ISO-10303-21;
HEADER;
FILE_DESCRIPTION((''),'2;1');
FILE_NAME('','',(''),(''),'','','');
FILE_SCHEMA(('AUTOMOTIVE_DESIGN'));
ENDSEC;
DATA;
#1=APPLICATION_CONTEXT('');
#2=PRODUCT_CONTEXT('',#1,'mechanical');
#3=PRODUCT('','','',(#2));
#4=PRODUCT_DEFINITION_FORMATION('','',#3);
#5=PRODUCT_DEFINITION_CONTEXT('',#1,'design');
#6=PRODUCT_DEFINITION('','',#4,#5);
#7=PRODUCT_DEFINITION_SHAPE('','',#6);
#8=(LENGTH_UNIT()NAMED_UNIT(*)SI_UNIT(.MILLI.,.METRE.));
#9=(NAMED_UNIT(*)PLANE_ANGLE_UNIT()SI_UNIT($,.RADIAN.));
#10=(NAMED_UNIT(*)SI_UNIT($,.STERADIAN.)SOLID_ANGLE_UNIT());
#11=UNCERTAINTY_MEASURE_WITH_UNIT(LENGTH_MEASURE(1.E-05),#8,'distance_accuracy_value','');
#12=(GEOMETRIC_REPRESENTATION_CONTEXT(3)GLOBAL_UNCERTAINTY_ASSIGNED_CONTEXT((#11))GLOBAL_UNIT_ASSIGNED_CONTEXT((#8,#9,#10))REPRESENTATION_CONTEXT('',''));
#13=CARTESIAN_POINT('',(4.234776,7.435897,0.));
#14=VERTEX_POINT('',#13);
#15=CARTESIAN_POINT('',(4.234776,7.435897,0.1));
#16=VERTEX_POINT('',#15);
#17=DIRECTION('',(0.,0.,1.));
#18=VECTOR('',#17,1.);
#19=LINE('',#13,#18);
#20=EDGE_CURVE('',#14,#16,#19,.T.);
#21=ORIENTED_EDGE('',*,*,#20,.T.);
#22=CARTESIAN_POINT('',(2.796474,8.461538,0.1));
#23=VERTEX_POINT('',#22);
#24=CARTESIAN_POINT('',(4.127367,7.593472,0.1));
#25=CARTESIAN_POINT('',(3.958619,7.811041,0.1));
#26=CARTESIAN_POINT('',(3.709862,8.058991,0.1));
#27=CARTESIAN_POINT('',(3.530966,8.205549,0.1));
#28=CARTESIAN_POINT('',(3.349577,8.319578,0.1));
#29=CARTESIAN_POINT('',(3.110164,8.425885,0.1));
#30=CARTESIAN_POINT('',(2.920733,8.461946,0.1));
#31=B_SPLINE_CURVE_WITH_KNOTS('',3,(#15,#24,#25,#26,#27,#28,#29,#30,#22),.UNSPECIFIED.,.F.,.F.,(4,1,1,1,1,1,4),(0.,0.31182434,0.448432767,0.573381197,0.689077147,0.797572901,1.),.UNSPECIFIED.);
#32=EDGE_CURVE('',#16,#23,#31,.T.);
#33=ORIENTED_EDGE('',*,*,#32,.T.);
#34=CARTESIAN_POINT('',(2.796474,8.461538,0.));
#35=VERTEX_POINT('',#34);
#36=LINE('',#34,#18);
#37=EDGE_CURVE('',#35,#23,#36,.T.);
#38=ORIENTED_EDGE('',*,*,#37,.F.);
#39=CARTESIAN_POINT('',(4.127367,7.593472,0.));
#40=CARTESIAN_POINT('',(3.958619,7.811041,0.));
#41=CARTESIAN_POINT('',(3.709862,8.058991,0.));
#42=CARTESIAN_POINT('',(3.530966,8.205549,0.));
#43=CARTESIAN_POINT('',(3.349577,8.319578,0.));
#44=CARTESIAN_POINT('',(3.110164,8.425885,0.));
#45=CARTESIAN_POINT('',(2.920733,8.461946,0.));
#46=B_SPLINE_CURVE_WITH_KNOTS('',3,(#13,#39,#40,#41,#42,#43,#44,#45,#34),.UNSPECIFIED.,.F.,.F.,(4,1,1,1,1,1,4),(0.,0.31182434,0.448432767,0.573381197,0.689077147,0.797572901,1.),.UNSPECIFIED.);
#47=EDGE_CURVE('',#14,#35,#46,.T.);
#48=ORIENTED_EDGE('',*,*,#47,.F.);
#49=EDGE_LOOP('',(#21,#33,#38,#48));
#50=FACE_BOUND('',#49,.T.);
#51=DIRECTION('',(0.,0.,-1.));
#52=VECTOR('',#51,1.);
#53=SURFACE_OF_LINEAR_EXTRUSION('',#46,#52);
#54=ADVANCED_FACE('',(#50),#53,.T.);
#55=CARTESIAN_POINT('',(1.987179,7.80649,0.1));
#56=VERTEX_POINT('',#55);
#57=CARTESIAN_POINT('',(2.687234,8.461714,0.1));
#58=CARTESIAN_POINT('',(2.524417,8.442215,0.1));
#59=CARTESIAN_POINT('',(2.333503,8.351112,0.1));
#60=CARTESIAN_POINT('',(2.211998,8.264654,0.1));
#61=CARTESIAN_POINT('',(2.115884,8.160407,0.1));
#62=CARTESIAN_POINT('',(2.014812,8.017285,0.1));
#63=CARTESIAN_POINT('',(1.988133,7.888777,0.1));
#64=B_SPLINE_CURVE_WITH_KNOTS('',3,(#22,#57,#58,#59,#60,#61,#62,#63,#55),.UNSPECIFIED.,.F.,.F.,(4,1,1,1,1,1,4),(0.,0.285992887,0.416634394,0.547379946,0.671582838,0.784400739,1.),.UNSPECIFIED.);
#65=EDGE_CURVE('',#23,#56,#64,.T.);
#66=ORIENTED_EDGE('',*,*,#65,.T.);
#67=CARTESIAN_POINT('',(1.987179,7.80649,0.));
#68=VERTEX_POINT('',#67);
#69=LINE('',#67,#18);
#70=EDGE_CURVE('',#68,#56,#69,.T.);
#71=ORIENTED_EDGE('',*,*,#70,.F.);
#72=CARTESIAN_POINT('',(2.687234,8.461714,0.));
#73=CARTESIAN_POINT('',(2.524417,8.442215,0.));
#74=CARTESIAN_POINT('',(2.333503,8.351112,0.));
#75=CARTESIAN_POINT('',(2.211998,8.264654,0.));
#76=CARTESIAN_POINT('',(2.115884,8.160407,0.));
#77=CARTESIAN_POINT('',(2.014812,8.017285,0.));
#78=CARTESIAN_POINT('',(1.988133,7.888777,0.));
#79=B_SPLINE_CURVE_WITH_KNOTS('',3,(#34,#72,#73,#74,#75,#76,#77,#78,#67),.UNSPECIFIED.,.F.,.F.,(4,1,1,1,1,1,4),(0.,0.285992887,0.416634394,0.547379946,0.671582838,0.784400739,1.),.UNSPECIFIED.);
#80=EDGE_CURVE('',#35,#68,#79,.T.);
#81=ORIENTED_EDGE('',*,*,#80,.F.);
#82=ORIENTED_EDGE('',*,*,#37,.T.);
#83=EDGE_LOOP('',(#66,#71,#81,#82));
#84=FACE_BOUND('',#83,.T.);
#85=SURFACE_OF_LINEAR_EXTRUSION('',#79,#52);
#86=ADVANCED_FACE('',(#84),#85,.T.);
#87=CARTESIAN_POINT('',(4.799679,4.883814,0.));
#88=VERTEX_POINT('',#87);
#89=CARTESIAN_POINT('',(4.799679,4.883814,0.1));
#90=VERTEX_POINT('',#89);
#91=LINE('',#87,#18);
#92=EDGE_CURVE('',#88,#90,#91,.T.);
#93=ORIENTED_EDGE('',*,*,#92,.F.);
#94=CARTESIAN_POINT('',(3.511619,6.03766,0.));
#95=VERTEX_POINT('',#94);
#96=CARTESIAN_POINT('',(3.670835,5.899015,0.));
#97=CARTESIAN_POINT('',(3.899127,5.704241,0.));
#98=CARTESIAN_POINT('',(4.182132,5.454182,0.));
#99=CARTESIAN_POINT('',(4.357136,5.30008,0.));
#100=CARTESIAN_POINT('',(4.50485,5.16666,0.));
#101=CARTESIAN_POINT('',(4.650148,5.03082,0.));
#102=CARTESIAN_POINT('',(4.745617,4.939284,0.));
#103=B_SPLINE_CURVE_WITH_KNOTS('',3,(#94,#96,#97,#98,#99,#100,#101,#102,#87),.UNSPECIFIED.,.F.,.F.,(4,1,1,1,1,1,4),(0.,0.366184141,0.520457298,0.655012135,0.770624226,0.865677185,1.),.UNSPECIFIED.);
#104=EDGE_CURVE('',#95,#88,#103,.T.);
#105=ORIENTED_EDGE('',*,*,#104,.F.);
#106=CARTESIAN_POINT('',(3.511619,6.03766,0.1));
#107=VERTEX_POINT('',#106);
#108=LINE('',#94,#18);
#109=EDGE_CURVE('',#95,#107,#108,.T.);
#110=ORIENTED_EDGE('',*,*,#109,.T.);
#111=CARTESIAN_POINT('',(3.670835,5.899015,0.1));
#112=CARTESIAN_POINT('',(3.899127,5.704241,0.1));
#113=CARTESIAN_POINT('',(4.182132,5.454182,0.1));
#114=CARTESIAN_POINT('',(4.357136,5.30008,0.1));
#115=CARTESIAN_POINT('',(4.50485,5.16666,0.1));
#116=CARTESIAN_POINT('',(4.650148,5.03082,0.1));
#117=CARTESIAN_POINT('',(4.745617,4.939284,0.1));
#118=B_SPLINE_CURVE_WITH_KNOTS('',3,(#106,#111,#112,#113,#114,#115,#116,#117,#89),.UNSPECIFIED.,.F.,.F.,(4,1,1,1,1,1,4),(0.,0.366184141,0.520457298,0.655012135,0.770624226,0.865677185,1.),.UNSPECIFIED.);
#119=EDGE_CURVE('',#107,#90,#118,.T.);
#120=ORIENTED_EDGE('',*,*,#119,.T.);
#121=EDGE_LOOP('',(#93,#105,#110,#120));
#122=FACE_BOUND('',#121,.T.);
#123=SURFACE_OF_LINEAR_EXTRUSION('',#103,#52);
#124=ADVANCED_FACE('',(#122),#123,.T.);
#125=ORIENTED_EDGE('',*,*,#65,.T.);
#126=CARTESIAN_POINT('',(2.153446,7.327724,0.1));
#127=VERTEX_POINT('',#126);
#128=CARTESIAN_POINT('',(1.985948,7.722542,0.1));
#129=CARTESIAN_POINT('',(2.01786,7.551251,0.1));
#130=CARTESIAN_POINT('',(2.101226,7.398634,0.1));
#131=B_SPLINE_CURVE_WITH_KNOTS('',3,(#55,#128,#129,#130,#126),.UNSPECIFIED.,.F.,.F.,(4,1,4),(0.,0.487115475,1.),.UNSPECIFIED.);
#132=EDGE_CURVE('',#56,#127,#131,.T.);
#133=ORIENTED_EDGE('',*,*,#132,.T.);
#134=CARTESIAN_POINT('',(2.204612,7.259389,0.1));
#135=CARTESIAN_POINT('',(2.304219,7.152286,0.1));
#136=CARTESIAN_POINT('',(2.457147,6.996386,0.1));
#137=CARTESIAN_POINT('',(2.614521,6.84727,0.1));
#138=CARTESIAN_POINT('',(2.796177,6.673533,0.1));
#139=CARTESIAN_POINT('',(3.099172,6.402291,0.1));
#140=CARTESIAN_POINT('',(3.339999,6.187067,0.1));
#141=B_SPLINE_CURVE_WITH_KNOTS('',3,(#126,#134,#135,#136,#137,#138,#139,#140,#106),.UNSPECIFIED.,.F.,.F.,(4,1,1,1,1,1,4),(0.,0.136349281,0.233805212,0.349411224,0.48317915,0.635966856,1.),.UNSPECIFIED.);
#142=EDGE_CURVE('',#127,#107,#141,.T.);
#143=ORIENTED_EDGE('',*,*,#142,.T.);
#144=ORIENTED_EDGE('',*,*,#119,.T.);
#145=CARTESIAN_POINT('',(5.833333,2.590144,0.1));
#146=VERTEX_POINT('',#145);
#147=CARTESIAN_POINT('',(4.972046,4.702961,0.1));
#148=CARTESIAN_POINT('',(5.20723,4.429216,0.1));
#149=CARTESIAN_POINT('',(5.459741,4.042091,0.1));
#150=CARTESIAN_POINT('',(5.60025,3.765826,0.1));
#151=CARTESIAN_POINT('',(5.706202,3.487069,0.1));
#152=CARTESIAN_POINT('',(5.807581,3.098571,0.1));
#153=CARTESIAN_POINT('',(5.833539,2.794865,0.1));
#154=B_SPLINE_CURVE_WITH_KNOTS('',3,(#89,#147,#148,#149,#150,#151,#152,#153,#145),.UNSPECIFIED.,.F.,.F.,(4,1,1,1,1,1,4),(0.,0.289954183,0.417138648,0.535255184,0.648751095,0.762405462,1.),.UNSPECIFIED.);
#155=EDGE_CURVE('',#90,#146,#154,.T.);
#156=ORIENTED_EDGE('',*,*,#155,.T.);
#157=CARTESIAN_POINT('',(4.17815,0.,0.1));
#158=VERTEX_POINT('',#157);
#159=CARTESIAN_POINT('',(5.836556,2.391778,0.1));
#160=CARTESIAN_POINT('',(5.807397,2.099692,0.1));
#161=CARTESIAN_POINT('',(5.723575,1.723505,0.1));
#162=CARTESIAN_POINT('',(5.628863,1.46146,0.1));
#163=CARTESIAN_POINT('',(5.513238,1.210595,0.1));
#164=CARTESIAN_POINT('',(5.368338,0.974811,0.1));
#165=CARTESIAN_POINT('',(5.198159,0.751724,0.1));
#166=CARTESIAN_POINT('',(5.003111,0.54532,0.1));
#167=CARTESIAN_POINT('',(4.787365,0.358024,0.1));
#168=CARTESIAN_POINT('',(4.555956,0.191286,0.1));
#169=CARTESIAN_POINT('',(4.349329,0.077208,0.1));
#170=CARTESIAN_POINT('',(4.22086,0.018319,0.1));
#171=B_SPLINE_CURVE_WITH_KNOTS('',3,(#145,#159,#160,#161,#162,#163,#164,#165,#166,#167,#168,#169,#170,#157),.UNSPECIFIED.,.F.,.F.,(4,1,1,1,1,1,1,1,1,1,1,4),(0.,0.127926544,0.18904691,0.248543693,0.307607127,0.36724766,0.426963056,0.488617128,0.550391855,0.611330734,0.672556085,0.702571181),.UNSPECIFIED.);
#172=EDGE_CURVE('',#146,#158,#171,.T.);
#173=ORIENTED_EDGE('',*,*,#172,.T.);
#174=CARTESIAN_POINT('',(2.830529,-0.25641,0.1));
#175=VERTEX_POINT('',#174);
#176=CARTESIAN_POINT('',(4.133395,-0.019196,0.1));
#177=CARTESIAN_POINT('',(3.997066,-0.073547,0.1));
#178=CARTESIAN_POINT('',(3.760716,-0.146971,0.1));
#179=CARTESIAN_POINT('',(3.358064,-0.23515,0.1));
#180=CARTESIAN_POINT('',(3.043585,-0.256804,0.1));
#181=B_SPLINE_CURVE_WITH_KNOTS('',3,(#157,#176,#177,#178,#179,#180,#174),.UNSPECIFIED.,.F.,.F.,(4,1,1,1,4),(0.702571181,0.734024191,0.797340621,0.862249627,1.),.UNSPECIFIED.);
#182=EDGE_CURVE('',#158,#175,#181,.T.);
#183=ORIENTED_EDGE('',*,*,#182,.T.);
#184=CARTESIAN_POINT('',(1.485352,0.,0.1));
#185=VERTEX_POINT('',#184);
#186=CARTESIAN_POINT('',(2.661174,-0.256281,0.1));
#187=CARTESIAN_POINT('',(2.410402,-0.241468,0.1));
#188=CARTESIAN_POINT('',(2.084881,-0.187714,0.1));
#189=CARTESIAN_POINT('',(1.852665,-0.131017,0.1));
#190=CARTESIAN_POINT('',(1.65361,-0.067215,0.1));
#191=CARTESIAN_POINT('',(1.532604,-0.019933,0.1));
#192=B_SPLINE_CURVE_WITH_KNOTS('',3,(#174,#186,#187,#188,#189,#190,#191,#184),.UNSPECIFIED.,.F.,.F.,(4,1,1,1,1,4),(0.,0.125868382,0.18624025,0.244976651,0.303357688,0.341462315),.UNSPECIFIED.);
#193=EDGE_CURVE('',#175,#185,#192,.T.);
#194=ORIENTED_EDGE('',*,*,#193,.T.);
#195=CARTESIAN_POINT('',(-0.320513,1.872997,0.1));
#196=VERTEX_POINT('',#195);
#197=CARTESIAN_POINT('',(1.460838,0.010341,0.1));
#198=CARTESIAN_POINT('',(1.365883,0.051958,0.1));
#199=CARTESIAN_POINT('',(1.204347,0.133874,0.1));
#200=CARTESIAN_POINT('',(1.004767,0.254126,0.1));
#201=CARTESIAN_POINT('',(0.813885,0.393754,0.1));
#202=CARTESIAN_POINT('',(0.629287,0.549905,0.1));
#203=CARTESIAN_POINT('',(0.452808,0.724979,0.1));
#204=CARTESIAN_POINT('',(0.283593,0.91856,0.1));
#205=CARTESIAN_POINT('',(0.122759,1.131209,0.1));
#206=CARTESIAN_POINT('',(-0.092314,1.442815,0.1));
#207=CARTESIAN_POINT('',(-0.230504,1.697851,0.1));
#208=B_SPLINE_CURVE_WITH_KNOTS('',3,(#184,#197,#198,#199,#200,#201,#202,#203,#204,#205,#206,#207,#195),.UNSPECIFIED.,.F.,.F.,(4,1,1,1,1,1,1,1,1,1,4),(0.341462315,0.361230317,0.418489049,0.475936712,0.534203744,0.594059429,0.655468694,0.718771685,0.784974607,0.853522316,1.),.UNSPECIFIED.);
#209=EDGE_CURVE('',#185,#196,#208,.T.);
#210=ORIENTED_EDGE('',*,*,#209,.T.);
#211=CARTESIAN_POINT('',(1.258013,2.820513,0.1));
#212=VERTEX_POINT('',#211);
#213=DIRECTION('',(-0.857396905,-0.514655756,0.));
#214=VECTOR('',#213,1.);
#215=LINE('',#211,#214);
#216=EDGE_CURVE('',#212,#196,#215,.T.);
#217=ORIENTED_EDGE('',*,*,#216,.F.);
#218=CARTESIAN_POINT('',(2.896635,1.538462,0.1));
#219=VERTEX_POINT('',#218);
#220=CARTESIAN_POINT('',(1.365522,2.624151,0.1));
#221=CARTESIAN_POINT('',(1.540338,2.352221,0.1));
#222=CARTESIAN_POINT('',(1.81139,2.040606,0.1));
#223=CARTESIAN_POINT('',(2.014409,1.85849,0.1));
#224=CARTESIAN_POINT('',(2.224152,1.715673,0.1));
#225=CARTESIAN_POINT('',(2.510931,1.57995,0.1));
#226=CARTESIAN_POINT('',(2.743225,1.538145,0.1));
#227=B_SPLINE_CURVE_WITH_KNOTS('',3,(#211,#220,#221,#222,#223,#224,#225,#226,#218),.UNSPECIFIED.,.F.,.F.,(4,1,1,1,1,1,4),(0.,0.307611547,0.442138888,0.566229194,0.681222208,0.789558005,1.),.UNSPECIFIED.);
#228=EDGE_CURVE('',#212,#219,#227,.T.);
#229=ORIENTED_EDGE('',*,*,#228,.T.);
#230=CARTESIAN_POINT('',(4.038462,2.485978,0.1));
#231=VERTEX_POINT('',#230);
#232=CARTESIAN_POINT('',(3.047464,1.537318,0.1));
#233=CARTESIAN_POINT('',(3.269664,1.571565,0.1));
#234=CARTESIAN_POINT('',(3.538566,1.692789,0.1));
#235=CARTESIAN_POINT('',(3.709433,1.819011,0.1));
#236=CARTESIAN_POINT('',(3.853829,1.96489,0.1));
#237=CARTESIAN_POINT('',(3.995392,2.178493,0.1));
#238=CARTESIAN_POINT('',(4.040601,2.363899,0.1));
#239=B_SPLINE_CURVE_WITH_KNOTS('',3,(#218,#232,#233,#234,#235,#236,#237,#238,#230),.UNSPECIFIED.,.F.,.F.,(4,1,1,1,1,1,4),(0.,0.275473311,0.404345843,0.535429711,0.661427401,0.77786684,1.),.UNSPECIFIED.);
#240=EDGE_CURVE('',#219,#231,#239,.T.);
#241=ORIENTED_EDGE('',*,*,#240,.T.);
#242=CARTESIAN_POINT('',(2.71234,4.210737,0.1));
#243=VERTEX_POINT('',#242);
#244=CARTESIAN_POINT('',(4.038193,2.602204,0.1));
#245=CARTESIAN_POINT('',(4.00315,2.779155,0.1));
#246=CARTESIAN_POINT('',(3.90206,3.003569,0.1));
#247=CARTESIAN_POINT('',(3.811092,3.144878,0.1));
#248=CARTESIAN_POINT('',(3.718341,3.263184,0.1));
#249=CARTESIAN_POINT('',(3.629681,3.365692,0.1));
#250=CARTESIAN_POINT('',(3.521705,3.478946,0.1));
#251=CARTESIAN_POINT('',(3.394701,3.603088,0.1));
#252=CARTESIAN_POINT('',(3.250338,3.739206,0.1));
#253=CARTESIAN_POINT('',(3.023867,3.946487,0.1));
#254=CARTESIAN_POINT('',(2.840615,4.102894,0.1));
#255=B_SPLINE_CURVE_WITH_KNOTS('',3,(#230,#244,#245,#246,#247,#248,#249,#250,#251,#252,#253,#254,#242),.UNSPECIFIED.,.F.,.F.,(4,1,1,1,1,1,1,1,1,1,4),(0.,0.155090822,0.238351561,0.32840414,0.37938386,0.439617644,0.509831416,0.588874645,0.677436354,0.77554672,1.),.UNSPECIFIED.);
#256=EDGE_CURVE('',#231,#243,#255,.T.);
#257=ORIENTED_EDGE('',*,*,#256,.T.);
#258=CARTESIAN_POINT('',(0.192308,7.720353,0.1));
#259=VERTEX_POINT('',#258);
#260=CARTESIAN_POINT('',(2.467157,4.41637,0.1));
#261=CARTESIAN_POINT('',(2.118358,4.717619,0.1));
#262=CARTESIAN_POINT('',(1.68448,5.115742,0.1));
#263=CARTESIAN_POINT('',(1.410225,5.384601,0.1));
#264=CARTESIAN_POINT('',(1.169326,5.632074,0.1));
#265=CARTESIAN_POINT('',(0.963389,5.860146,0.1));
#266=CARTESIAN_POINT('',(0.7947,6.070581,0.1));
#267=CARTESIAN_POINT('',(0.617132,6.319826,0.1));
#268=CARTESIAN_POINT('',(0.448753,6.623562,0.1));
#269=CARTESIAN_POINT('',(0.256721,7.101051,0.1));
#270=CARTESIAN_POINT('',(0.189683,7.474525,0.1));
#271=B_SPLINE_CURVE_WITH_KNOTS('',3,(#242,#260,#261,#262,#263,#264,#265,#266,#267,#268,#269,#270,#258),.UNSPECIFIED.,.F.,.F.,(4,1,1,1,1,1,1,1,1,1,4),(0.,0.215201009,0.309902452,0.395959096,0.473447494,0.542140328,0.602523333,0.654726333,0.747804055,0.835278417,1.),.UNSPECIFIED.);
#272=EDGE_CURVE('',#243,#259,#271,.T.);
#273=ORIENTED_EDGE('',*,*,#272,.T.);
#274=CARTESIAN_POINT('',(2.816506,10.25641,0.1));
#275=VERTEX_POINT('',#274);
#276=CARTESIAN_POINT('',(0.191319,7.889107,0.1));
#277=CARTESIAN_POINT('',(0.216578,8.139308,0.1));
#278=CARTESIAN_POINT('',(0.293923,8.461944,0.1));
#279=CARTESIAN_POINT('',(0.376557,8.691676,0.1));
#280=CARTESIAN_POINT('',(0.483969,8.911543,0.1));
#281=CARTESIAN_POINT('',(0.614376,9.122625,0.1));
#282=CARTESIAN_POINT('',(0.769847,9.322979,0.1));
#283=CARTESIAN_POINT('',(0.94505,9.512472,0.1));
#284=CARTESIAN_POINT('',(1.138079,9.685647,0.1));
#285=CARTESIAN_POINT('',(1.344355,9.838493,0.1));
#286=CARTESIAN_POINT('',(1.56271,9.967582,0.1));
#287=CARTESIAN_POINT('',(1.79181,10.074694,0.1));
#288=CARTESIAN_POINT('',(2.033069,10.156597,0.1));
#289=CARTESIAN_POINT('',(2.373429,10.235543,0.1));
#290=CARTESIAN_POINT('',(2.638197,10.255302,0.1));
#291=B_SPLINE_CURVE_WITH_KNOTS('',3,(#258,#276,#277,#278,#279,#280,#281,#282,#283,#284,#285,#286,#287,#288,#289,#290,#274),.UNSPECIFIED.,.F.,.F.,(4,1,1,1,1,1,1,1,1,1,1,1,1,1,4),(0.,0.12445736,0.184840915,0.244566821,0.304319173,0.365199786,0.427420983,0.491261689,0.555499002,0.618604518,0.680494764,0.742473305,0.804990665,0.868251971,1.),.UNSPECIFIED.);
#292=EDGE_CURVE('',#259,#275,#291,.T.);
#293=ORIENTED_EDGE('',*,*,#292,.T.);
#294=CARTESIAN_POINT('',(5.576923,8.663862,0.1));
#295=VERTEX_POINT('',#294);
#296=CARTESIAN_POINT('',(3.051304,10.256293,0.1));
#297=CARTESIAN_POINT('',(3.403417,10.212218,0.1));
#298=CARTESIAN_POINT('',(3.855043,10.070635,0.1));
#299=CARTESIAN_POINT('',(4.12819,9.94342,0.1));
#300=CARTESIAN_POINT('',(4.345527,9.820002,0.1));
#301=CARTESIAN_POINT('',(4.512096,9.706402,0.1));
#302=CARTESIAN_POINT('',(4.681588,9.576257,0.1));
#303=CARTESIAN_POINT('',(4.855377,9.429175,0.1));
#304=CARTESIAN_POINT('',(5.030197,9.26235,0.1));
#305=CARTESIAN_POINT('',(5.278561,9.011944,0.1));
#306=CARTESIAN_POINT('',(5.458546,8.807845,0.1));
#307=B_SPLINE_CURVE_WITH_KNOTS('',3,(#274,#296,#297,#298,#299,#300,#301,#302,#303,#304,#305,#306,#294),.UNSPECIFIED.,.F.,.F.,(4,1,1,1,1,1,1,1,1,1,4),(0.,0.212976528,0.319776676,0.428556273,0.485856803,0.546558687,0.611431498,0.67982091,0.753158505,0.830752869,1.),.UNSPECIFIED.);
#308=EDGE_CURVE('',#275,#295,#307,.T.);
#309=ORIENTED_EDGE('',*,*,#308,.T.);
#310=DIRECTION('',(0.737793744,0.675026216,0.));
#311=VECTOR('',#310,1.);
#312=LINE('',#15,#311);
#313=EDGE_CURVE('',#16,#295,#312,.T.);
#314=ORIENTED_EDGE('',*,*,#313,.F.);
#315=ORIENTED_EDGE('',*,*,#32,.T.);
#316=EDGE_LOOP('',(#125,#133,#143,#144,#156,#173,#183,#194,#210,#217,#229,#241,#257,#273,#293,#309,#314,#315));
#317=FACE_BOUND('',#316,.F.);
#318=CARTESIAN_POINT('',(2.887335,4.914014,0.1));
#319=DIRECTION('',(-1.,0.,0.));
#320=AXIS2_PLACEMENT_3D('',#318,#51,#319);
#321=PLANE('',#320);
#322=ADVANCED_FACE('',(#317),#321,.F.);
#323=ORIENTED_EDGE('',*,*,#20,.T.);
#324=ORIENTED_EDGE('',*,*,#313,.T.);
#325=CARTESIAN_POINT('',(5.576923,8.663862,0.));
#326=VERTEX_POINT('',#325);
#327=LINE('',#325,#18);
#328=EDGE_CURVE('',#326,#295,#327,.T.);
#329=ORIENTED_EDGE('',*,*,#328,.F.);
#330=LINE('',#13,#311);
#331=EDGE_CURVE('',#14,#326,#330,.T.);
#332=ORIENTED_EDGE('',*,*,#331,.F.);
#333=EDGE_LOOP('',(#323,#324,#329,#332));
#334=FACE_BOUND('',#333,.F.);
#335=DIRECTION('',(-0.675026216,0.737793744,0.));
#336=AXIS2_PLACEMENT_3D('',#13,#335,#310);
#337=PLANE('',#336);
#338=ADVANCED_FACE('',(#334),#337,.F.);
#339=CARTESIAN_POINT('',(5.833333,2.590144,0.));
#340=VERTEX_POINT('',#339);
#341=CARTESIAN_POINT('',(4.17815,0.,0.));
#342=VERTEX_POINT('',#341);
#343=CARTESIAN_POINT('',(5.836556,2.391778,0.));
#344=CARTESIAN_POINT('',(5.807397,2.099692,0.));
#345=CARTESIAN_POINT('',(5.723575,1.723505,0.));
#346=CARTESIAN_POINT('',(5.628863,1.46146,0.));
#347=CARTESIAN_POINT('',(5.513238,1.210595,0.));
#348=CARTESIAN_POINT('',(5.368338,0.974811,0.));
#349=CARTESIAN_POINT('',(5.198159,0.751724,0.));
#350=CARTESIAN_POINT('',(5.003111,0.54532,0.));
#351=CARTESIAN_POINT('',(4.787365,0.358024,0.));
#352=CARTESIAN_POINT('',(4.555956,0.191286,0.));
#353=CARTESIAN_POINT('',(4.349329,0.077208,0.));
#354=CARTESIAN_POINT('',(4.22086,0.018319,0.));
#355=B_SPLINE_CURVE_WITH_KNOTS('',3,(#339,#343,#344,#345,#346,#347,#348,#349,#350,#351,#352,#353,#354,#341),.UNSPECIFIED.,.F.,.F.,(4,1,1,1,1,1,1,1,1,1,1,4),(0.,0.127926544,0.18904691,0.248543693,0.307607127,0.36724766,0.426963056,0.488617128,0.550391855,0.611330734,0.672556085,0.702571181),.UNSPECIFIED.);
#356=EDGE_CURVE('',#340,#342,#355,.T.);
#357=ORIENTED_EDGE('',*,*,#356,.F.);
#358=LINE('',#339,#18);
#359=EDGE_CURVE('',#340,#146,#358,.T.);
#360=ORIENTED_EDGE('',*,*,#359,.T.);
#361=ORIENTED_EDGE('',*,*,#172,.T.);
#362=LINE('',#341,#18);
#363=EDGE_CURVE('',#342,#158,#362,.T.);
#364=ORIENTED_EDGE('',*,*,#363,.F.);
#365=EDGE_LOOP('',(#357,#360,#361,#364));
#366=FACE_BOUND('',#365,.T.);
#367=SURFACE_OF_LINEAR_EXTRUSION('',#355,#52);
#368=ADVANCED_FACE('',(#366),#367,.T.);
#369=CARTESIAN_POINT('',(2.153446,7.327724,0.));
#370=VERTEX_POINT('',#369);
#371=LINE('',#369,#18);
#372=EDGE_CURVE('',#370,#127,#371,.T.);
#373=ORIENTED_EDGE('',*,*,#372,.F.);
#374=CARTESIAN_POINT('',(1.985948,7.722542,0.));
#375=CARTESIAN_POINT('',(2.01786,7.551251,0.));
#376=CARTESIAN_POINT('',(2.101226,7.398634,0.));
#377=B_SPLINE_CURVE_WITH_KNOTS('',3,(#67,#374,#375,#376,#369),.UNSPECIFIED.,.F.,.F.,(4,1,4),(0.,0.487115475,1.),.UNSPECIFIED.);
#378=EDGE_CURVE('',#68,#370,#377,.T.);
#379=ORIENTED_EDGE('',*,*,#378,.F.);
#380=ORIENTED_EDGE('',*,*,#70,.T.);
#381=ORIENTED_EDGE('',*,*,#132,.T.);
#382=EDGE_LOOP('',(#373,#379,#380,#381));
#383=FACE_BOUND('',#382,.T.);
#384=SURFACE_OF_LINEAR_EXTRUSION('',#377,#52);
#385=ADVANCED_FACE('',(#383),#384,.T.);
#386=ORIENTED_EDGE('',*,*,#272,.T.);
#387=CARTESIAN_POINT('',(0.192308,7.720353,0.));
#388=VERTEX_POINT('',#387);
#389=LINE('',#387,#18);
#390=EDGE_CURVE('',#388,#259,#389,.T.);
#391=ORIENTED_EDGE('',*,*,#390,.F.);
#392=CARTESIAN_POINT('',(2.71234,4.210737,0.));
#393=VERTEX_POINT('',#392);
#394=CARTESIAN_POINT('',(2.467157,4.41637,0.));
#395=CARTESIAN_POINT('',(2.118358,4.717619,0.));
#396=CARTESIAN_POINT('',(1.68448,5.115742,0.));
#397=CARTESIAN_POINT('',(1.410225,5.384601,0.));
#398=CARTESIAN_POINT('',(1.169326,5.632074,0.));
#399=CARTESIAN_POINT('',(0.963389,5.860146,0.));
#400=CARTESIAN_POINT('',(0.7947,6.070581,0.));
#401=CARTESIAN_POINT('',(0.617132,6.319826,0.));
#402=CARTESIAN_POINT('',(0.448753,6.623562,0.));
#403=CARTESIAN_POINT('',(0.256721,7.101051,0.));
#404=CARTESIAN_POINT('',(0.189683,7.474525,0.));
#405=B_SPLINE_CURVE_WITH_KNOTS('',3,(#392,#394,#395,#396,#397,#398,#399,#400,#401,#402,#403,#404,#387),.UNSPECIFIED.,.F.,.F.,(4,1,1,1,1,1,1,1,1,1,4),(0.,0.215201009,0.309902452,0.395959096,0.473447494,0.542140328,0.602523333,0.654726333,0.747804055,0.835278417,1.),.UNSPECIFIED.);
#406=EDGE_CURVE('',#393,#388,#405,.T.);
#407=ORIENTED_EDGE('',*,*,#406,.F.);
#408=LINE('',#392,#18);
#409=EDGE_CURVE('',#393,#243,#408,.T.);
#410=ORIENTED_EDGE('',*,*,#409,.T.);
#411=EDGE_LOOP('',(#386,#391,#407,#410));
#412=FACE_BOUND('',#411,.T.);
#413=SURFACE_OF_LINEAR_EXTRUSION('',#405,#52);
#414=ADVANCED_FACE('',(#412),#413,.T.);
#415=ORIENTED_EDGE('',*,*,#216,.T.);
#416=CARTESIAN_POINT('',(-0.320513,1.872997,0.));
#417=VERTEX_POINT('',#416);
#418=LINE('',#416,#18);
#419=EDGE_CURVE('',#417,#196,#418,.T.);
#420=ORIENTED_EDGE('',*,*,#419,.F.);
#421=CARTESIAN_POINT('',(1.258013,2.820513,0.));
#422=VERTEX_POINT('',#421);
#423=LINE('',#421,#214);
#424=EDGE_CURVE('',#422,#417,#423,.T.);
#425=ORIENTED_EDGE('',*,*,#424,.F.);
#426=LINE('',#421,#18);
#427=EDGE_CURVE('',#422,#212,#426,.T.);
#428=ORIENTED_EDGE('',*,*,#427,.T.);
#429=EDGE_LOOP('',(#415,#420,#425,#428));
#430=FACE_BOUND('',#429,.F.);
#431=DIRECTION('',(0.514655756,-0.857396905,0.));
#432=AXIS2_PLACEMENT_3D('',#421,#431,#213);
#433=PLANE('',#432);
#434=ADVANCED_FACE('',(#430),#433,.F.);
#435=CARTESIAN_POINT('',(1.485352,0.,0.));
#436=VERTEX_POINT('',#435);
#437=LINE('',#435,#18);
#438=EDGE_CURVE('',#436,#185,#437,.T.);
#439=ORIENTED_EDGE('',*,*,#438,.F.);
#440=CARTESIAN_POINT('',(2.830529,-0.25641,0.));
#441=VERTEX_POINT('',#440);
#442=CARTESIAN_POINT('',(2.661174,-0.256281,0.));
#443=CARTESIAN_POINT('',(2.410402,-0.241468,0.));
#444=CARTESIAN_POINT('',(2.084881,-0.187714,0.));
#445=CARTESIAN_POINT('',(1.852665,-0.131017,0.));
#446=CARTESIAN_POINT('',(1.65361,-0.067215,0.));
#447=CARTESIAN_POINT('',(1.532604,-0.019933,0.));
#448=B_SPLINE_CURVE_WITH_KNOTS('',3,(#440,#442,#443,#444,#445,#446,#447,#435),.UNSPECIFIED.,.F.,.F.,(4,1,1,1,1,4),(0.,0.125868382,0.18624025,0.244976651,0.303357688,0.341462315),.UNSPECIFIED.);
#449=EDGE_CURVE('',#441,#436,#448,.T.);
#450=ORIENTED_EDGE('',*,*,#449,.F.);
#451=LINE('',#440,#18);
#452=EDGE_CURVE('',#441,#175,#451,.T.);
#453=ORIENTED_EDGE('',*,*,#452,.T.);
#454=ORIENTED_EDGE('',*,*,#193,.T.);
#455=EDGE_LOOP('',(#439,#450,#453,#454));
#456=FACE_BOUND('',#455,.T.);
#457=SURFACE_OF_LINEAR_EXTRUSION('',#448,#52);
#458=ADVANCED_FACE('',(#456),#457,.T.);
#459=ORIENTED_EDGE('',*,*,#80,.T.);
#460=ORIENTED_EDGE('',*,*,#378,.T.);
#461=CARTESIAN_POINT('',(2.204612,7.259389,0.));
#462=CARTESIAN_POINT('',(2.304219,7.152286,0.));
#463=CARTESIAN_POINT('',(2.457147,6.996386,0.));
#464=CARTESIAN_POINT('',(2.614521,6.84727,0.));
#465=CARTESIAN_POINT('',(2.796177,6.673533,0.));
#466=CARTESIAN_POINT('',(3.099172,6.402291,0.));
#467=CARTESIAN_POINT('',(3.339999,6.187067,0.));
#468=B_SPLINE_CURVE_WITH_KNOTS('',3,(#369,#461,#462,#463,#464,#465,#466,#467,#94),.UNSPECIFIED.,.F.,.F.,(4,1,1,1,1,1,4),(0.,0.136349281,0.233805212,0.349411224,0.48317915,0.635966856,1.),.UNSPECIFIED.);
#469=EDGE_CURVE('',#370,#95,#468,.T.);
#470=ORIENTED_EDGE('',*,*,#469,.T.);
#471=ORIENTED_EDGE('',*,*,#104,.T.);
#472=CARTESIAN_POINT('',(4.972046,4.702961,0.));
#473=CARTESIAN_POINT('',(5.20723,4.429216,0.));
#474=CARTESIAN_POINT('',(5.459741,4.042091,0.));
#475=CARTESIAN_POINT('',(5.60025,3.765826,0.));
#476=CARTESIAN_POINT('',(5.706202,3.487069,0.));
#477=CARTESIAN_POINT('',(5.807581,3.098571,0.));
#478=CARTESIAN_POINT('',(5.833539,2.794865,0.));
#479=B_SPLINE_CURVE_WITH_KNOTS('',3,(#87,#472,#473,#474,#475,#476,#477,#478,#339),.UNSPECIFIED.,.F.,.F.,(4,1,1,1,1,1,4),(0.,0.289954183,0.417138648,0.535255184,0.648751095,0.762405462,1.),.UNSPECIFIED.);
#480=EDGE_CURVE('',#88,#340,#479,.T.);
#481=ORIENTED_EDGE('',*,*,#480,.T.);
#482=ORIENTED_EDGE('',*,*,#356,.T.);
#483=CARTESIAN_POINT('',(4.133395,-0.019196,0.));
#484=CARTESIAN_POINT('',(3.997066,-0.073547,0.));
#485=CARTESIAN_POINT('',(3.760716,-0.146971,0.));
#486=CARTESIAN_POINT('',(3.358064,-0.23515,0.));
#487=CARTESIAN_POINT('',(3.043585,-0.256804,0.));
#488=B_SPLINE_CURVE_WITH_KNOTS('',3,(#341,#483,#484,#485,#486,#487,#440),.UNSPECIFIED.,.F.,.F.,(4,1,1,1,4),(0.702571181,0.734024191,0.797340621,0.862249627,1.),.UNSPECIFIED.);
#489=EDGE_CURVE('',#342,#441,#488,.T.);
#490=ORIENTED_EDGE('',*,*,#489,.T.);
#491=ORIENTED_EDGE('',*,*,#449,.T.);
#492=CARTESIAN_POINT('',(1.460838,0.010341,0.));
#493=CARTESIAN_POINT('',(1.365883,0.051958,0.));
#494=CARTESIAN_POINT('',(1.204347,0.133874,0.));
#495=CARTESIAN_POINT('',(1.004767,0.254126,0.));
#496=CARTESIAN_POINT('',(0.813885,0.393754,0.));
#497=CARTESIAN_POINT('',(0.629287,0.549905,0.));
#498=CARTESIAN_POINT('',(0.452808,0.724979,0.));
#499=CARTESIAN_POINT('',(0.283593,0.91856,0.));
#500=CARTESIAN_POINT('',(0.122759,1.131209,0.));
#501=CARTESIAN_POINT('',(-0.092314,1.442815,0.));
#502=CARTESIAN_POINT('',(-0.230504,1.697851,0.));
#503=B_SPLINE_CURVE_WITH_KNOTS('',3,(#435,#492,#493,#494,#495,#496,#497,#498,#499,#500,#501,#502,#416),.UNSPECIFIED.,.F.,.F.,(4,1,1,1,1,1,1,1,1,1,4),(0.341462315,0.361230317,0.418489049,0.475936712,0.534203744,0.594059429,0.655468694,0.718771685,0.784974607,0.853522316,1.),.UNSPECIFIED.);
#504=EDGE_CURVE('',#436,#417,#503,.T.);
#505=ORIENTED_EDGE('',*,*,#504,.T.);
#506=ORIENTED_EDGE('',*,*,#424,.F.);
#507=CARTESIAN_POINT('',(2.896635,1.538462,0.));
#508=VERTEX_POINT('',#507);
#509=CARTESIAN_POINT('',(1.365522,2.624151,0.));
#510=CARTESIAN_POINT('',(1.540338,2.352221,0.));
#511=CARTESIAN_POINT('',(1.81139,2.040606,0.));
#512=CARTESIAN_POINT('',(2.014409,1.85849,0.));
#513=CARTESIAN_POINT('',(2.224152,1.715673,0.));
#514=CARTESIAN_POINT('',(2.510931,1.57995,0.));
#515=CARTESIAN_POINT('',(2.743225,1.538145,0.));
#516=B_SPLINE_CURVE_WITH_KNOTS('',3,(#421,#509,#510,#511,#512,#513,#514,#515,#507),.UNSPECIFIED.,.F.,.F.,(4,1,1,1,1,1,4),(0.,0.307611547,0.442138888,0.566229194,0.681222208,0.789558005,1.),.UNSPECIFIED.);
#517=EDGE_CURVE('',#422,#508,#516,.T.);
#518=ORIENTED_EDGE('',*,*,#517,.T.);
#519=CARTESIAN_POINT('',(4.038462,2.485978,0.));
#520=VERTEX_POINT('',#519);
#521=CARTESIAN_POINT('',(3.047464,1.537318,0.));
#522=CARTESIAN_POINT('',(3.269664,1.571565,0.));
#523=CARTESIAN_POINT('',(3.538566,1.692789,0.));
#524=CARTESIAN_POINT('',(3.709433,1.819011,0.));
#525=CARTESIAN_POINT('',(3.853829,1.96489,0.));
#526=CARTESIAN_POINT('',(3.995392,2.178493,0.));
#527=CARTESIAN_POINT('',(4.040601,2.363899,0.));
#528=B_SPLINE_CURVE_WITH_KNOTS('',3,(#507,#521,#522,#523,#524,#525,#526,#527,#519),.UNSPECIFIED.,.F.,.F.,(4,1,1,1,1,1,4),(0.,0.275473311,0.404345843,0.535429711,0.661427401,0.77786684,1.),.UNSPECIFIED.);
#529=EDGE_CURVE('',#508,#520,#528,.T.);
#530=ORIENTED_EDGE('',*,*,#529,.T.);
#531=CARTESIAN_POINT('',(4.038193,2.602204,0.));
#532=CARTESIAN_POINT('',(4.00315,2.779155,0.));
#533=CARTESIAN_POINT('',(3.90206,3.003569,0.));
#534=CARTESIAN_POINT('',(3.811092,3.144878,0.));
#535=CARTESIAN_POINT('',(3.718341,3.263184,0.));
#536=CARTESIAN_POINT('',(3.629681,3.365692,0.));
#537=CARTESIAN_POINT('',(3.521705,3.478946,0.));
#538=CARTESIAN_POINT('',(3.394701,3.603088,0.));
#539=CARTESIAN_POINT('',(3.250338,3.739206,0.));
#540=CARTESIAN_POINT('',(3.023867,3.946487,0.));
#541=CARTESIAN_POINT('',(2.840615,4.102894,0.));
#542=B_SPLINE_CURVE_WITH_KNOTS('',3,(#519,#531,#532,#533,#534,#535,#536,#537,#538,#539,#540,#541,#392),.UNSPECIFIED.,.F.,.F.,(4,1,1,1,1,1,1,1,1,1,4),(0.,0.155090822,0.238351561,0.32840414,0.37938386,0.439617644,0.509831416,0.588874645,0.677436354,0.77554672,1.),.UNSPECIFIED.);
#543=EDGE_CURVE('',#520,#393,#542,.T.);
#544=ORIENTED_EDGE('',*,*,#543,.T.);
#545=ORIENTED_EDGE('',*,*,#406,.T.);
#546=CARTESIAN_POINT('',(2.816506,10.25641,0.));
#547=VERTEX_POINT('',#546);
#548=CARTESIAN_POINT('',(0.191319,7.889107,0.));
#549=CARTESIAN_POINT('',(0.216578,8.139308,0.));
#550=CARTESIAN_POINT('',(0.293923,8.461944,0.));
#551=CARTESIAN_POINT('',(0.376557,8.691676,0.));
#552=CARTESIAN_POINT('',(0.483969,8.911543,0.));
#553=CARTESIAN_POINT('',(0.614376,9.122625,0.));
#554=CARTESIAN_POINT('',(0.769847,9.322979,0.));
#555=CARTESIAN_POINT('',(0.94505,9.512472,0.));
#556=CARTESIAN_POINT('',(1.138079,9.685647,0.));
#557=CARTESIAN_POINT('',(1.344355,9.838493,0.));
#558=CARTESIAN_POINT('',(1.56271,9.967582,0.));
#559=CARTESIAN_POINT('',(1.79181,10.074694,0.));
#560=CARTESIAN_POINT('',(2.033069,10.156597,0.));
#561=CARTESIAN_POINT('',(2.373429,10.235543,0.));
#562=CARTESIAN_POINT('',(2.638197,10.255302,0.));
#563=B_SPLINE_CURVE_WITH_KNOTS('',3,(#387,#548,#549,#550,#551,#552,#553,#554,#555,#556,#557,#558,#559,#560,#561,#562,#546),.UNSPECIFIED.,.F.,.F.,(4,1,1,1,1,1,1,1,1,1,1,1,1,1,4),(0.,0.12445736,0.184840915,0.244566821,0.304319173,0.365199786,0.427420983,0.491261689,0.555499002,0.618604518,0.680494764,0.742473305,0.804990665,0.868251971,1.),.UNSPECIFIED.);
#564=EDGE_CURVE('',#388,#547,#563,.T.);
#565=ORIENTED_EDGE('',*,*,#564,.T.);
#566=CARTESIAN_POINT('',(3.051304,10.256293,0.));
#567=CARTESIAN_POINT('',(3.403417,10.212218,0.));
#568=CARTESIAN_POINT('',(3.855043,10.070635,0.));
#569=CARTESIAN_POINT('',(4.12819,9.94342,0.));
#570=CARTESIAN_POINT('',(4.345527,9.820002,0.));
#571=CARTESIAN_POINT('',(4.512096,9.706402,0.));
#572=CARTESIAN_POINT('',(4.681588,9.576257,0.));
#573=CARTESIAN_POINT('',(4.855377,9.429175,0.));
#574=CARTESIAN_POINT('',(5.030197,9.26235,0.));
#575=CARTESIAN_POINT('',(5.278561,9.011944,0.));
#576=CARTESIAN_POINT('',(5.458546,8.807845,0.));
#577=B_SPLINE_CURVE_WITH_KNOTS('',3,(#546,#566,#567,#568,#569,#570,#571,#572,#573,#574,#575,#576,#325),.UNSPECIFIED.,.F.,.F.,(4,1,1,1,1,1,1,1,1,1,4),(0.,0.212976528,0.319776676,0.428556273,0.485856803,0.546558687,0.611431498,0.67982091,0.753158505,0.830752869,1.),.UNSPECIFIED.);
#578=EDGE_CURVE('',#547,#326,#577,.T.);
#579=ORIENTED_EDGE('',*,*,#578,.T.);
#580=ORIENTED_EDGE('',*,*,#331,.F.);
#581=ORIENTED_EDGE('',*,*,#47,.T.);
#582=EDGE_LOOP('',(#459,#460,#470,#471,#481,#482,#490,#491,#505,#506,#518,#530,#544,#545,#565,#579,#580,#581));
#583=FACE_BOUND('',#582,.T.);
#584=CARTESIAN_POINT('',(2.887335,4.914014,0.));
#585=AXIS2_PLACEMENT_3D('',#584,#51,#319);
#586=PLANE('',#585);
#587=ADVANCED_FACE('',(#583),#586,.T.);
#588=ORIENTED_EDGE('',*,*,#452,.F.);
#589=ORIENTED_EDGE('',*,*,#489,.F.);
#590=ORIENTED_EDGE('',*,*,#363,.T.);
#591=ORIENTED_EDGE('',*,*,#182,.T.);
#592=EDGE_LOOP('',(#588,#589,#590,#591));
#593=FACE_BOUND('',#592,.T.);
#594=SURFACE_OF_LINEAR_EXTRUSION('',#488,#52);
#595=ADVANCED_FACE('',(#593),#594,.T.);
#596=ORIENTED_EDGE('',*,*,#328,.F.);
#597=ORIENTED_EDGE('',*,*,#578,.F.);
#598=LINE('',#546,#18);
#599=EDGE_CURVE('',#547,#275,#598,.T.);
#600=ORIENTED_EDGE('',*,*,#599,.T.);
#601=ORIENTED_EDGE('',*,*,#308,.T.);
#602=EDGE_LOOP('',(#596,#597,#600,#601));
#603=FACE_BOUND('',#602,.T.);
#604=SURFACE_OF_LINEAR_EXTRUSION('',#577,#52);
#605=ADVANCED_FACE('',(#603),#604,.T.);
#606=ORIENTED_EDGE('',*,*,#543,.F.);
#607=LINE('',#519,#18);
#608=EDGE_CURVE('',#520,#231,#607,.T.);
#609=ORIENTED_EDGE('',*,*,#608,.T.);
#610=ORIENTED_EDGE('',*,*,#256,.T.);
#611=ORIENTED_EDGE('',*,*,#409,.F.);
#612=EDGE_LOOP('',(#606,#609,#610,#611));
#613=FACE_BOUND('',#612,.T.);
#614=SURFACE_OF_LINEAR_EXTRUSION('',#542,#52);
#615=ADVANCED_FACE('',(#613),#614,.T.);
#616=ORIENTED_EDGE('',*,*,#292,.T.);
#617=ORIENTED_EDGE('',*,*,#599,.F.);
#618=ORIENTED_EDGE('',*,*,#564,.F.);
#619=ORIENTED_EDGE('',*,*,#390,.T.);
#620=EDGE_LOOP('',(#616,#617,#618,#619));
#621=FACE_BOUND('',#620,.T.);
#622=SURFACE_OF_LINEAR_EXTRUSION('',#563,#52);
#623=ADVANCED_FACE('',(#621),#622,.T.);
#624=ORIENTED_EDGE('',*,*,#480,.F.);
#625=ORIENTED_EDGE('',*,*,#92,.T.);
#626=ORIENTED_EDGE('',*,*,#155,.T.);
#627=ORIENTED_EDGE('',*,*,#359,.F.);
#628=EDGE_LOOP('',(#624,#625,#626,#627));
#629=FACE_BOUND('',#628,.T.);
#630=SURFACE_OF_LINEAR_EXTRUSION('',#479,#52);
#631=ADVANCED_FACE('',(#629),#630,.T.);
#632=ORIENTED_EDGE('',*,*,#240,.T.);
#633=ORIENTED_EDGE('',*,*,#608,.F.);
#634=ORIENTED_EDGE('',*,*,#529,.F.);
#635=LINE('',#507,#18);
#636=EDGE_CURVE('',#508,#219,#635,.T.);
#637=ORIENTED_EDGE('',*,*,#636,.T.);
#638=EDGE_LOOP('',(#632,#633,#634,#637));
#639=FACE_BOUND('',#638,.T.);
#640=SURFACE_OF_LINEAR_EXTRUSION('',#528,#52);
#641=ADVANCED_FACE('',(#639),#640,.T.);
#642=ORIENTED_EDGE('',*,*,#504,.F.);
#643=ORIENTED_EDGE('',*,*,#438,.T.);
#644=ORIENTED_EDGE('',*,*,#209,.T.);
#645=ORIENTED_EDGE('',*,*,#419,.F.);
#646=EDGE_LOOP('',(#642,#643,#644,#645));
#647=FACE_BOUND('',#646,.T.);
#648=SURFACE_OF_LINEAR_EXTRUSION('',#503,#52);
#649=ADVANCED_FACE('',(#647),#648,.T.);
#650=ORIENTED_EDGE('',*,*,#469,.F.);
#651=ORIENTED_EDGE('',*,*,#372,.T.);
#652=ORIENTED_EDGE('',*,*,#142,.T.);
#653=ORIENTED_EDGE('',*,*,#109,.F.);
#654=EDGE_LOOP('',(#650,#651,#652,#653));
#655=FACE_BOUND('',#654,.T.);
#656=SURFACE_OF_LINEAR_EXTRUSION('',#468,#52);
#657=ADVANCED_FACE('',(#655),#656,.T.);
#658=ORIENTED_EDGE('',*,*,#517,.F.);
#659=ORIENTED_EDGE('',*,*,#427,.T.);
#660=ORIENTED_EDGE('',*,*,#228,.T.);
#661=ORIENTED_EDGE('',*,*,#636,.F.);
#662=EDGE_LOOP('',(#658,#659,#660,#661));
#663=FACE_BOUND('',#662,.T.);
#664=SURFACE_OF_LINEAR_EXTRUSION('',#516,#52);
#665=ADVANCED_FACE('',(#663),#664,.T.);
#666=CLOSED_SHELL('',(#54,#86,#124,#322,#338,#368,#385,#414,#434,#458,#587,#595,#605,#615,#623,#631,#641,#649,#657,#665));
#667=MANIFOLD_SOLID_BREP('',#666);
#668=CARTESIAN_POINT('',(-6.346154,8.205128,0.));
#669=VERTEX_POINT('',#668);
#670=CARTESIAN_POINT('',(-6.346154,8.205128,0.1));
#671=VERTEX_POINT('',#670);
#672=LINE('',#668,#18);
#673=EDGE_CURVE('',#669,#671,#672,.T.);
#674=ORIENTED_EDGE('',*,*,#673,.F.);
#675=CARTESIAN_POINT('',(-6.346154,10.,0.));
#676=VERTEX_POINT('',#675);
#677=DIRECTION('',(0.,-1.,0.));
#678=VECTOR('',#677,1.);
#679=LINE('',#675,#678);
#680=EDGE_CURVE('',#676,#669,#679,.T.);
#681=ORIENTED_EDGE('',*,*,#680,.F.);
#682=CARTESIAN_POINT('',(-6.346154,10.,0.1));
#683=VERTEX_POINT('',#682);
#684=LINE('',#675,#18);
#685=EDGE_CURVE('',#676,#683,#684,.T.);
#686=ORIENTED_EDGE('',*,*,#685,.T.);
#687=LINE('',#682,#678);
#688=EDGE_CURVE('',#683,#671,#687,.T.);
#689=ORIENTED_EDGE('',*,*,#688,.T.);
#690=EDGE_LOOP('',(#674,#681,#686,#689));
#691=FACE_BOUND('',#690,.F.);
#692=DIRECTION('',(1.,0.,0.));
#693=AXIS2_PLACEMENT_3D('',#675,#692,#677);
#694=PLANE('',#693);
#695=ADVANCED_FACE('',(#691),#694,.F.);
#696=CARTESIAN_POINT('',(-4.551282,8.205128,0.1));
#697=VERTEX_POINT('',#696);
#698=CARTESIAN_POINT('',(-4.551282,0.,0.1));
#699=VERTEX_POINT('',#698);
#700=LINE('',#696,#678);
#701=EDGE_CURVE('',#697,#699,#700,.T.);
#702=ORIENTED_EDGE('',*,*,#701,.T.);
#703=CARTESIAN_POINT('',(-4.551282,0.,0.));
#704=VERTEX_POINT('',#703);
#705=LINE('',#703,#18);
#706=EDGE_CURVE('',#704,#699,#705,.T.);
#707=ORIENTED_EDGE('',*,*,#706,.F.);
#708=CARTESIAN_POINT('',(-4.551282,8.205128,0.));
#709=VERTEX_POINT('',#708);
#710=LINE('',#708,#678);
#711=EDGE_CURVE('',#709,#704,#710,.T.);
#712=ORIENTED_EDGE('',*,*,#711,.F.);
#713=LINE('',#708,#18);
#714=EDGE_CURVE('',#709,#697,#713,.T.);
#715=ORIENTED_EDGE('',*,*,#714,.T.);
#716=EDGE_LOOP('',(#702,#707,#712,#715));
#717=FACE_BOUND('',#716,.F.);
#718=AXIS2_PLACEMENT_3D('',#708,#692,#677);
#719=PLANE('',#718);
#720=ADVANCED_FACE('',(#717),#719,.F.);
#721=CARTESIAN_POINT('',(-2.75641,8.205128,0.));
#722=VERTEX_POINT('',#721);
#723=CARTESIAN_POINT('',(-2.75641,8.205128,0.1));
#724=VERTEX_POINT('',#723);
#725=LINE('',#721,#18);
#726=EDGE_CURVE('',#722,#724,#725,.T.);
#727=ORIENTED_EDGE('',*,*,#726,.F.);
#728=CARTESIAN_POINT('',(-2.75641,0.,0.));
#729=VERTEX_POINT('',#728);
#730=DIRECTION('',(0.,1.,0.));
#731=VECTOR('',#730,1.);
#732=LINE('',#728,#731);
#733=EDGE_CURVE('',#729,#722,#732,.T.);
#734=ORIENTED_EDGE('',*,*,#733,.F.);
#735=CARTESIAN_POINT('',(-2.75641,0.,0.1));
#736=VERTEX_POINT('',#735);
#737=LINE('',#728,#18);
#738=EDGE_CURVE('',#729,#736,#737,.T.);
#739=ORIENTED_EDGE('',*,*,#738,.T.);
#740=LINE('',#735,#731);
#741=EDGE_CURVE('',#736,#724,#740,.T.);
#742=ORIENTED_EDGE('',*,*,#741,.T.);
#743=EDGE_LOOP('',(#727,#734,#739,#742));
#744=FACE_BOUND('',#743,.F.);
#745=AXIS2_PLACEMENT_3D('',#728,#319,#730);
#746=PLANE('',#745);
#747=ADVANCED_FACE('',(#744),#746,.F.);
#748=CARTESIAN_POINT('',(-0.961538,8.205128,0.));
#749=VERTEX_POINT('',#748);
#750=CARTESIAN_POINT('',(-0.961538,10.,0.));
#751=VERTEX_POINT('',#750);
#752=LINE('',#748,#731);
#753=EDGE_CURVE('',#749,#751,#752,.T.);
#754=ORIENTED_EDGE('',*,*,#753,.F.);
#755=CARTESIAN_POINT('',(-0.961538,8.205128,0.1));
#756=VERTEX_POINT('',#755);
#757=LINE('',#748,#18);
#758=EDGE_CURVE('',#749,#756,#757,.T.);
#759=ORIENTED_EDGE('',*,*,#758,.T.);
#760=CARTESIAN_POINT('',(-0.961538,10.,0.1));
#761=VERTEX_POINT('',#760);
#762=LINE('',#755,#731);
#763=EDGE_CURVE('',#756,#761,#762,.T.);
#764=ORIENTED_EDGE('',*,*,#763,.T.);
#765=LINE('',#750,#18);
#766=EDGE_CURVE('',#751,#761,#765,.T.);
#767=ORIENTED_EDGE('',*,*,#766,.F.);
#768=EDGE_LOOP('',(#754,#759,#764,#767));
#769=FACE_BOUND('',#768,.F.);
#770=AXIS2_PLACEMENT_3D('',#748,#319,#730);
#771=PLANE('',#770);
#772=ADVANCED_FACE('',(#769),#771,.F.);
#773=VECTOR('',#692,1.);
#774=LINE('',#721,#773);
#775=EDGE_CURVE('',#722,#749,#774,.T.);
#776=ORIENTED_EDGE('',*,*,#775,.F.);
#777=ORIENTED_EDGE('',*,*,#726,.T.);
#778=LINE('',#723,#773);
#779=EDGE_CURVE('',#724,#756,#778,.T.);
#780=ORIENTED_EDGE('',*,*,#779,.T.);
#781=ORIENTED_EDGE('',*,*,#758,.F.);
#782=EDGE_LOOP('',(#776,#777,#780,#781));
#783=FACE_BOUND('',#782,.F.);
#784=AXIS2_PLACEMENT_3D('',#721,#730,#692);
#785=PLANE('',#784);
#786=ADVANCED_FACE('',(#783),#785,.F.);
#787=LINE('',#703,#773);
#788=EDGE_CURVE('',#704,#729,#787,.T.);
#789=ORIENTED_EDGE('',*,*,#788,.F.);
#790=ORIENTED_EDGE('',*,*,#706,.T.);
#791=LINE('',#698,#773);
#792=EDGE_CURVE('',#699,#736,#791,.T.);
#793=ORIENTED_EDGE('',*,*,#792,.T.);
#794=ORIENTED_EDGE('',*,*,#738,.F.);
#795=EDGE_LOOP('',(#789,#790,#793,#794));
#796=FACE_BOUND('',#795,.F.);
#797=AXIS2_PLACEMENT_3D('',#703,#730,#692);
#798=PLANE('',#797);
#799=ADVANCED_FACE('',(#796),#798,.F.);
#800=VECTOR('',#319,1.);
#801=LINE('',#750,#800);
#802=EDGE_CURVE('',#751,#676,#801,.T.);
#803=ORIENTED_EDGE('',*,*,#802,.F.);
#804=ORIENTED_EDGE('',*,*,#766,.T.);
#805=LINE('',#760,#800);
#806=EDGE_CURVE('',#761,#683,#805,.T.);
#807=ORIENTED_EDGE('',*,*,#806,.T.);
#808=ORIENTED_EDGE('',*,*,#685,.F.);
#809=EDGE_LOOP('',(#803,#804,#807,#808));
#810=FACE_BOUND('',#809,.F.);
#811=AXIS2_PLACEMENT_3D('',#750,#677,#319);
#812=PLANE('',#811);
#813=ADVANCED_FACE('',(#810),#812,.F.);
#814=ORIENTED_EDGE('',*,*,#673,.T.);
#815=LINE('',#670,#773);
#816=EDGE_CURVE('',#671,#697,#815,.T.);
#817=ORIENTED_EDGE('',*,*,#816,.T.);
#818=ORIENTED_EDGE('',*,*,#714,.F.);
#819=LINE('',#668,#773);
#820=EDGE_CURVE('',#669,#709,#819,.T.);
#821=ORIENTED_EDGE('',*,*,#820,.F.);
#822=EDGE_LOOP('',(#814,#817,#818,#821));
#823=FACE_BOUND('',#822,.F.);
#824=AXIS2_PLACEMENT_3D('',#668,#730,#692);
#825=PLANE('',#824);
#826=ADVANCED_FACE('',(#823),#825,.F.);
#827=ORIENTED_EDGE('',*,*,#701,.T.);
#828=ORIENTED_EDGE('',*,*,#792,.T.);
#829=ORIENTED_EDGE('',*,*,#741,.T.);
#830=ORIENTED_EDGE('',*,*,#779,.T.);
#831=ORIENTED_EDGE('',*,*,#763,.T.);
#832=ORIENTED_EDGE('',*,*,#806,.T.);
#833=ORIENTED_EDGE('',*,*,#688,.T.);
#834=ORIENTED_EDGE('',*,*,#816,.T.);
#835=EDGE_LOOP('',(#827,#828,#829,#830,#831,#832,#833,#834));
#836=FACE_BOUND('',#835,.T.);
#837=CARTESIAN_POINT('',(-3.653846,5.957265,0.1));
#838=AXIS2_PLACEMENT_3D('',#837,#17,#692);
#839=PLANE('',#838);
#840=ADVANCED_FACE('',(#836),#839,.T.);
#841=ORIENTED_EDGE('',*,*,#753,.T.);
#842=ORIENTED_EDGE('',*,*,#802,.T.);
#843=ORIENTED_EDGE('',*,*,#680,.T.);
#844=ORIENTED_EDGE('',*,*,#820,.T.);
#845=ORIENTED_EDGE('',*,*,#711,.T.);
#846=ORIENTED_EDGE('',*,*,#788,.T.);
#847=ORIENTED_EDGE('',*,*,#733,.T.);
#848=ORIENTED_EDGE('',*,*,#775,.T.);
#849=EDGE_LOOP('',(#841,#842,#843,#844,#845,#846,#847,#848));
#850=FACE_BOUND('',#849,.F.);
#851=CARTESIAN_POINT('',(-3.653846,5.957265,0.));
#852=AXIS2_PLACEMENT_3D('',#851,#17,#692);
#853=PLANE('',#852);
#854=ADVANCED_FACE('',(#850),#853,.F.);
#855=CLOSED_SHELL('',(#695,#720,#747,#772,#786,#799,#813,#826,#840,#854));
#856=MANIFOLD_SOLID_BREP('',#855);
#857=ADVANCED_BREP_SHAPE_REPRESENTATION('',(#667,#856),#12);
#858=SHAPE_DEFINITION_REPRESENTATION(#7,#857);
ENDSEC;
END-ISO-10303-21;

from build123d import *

# Parameters (mm, degrees)
BOSS_EXTRUDE2_DEPTH = 0.1


with BuildPart() as part:
    # Sketch2 → Boss-Extrude2 (new body)
    with BuildSketch(Plane.XY):
        Polygon((-4.551282051, 8.205128205), (-4.551282051, 0), (-2.756410256, 0), (-2.756410256, 8.205128205), (-0.961538462, 8.205128205), (-0.961538462, 10), (-6.346153846, 10), (-6.346153846, 8.205128205), align=None)
        with BuildLine():
            add(Edge.make_bspline(
                [(1.48535153, 0), (1.460838, 0.010341081), (1.365882722, 0.051957676), (1.204347305, 0.133873582), (1.004767059, 0.254125506), (0.813884947, 0.393754262), (0.629286771, 0.549904551), (0.452808355, 0.724978918), (0.28359341, 0.918560312), (0.122758915, 1.13120867), (-0.092314067, 1.442815496), (-0.230504116, 1.697851295), (-0.320512821, 1.872996795)],
                knots=[0.341462315, 0.341462315, 0.341462315, 0.341462315, 0.361230317, 0.418489049, 0.475936712, 0.534203744, 0.594059429, 0.655468694, 0.718771685, 0.784974607, 0.853522316, 1, 1, 1, 1], degree=3))
            Line((1.48535153, 0), (4.178150333, 0))
            add(Edge.make_bspline(
                [(5.833333333, 2.590144231), (5.836556379, 2.39177757), (5.807396557, 2.099692324), (5.723575496, 1.723504993), (5.628862822, 1.461460195), (5.51323848, 1.210595134), (5.368337987, 0.974811142), (5.198159092, 0.75172373), (5.003111445, 0.545320229), (4.787364674, 0.358023886), (4.555955915, 0.191286396), (4.349328922, 0.077208292), (4.220859594, 0.018318592), (4.178150333, 0)],
                knots=[0, 0, 0, 0, 0.127926544, 0.18904691, 0.248543693, 0.307607127, 0.36724766, 0.426963056, 0.488617128, 0.550391855, 0.611330734, 0.672556085, 0.702571181, 0.702571181, 0.702571181, 0.702571181], degree=3))
            add(Edge.make_bspline(
                [(4.799679487, 4.883814103), (4.972046146, 4.70296104), (5.207229977, 4.429216435), (5.459741281, 4.042091474), (5.600250109, 3.765825955), (5.706202322, 3.487069286), (5.807580629, 3.098571269), (5.833539424, 2.794864513), (5.833333333, 2.590144231)],
                knots=[0, 0, 0, 0, 0.289954183, 0.417138648, 0.535255184, 0.648751095, 0.762405462, 1, 1, 1, 1], degree=3))
            add(Edge.make_bspline(
                [(3.51161859, 6.037660256), (3.670834794, 5.899015153), (3.899126567, 5.704240516), (4.182132498, 5.454181599), (4.357136314, 5.300080319), (4.504850468, 5.166660423), (4.650147699, 5.030820488), (4.745616907, 4.939283835), (4.799679487, 4.883814103)],
                knots=[0, 0, 0, 0, 0.366184141, 0.520457298, 0.655012135, 0.770624226, 0.865677185, 1, 1, 1, 1], degree=3))
            add(Edge.make_bspline(
                [(2.153445513, 7.327724359), (2.20461199, 7.259389428), (2.304218944, 7.152286409), (2.457147154, 6.996386214), (2.61452056, 6.847270221), (2.79617707, 6.673533424), (3.099171859, 6.402290717), (3.339999163, 6.187066649), (3.51161859, 6.037660256)],
                knots=[0, 0, 0, 0, 0.136349281, 0.233805212, 0.349411224, 0.48317915, 0.635966856, 1, 1, 1, 1], degree=3))
            add(Edge.make_bspline(
                [(1.987179487, 7.806490385), (1.985948248, 7.722541703), (2.017859782, 7.551251278), (2.101226417, 7.398634388), (2.153445513, 7.327724359)],
                knots=[0, 0, 0, 0, 0.487115475, 1, 1, 1, 1], degree=3))
            add(Edge.make_bspline(
                [(2.796474359, 8.461538462), (2.68723449, 8.461714305), (2.524417496, 8.442214992), (2.333502672, 8.351111674), (2.21199816, 8.264653628), (2.115884267, 8.160406635), (2.014811587, 8.017284715), (1.9881325, 7.88877723), (1.987179487, 7.806490385)],
                knots=[0, 0, 0, 0, 0.285992887, 0.416634394, 0.547379946, 0.671582838, 0.784400739, 1, 1, 1, 1], degree=3))
            add(Edge.make_bspline(
                [(4.234775641, 7.435897436), (4.12736706, 7.593471623), (3.958618898, 7.811040737), (3.70986163, 8.058990936), (3.530965751, 8.205548604), (3.349577267, 8.319578363), (3.110164479, 8.425885094), (2.920733401, 8.461946352), (2.796474359, 8.461538462)],
                knots=[0, 0, 0, 0, 0.31182434, 0.448432767, 0.573381197, 0.689077147, 0.797572901, 1, 1, 1, 1], degree=3))
            Line((4.234775641, 7.435897436), (5.576923077, 8.663862179))
            add(Edge.make_bspline(
                [(2.81650641, 10.256410256), (3.0513038, 10.256292599), (3.403416621, 10.212218251), (3.855042582, 10.070634701), (4.128190391, 9.943420306), (4.345527336, 9.820002318), (4.512096474, 9.706401822), (4.681587602, 9.576257291), (4.855377135, 9.429174971), (5.030196996, 9.262349729), (5.278560846, 9.011944158), (5.458546374, 8.807844761), (5.576923077, 8.663862179)],
                knots=[0, 0, 0, 0, 0.212976528, 0.319776676, 0.428556273, 0.485856803, 0.546558687, 0.611431498, 0.67982091, 0.753158505, 0.830752869, 1, 1, 1, 1], degree=3))
            add(Edge.make_bspline(
                [(0.192307692, 7.720352564), (0.19131912, 7.88910687), (0.216578448, 8.13930841), (0.293923062, 8.461944309), (0.376557185, 8.691675585), (0.483969479, 8.911542905), (0.614375956, 9.122625311), (0.769847066, 9.322979283), (0.945049541, 9.512472357), (1.138078595, 9.68564699), (1.344354539, 9.838492639), (1.562709715, 9.967582214), (1.791809645, 10.074693926), (2.033068803, 10.156597321), (2.373429116, 10.235543149), (2.63819748, 10.255302337), (2.81650641, 10.256410256)],
                knots=[0, 0, 0, 0, 0.12445736, 0.184840915, 0.244566821, 0.304319173, 0.365199786, 0.427420983, 0.491261689, 0.555499002, 0.618604518, 0.680494764, 0.742473305, 0.804990665, 0.868251971, 1, 1, 1, 1], degree=3))
            add(Edge.make_bspline(
                [(2.712339744, 4.210737179), (2.467156852, 4.416370493), (2.118357969, 4.717619446), (1.68447951, 5.115741965), (1.410224639, 5.384601459), (1.169326136, 5.632074114), (0.963388609, 5.860145575), (0.794699819, 6.070581437), (0.617131528, 6.319825882), (0.448753138, 6.623562109), (0.256721231, 7.101050655), (0.189683045, 7.474524767), (0.192307692, 7.720352564)],
                knots=[0, 0, 0, 0, 0.215201009, 0.309902452, 0.395959096, 0.473447494, 0.542140328, 0.602523333, 0.654726333, 0.747804055, 0.835278417, 1, 1, 1, 1], degree=3))
            add(Edge.make_bspline(
                [(4.038461538, 2.485977564), (4.038193412, 2.602203821), (4.003149727, 2.779154786), (3.902059828, 3.003569285), (3.811091696, 3.144877639), (3.71834138, 3.263183969), (3.629680561, 3.365692423), (3.52170512, 3.478945606), (3.394701187, 3.603088004), (3.250338094, 3.739205714), (3.023866562, 3.9464868), (2.840615244, 4.102893683), (2.712339744, 4.210737179)],
                knots=[0, 0, 0, 0, 0.155090822, 0.238351561, 0.32840414, 0.37938386, 0.439617644, 0.509831416, 0.588874645, 0.677436354, 0.77554672, 1, 1, 1, 1], degree=3))
            add(Edge.make_bspline(
                [(2.896634615, 1.538461538), (3.047463771, 1.53731824), (3.269664059, 1.571565235), (3.538566079, 1.692789273), (3.709432682, 1.819011458), (3.853828989, 1.964890474), (3.995392385, 2.178492725), (4.040601083, 2.363899381), (4.038461538, 2.485977564)],
                knots=[0, 0, 0, 0, 0.275473311, 0.404345843, 0.535429711, 0.661427401, 0.77786684, 1, 1, 1, 1], degree=3))
            add(Edge.make_bspline(
                [(1.258012821, 2.820512821), (1.365522326, 2.62415139), (1.540337666, 2.35222131), (1.811389641, 2.040605962), (2.014408695, 1.858490427), (2.224152025, 1.715672647), (2.510931219, 1.579950245), (2.743224957, 1.538145131), (2.896634615, 1.538461538)],
                knots=[0, 0, 0, 0, 0.307611547, 0.442138888, 0.566229194, 0.681222208, 0.789558005, 1, 1, 1, 1], degree=3))
            Line((1.258012821, 2.820512821), (-0.320512821, 1.872996795))
        make_face()
        with BuildLine():
            Line((4.178150333, 0), (1.48535153, 0))
            add(Edge.make_bspline(
                [(2.830528846, -0.256410256), (2.661174485, -0.256281445), (2.410402104, -0.241468047), (2.084880675, -0.187714321), (1.852665495, -0.131016828), (1.653610065, -0.067214648), (1.532603593, -0.019933376), (1.48535153, 0)],
                knots=[0, 0, 0, 0, 0.125868382, 0.18624025, 0.244976651, 0.303357688, 0.341462315, 0.341462315, 0.341462315, 0.341462315], degree=3))
            add(Edge.make_bspline(
                [(4.178150333, 0), (4.133395026, -0.01919617), (3.997065846, -0.073547257), (3.760715706, -0.146970814), (3.358063757, -0.235150464), (3.043584773, -0.256804432), (2.830528846, -0.256410256)],
                knots=[0.702571181, 0.702571181, 0.702571181, 0.702571181, 0.734024191, 0.797340621, 0.862249627, 1, 1, 1, 1], degree=3))
        make_face()
    extrude(amount=BOSS_EXTRUDE2_DEPTH)


solid = part.part
